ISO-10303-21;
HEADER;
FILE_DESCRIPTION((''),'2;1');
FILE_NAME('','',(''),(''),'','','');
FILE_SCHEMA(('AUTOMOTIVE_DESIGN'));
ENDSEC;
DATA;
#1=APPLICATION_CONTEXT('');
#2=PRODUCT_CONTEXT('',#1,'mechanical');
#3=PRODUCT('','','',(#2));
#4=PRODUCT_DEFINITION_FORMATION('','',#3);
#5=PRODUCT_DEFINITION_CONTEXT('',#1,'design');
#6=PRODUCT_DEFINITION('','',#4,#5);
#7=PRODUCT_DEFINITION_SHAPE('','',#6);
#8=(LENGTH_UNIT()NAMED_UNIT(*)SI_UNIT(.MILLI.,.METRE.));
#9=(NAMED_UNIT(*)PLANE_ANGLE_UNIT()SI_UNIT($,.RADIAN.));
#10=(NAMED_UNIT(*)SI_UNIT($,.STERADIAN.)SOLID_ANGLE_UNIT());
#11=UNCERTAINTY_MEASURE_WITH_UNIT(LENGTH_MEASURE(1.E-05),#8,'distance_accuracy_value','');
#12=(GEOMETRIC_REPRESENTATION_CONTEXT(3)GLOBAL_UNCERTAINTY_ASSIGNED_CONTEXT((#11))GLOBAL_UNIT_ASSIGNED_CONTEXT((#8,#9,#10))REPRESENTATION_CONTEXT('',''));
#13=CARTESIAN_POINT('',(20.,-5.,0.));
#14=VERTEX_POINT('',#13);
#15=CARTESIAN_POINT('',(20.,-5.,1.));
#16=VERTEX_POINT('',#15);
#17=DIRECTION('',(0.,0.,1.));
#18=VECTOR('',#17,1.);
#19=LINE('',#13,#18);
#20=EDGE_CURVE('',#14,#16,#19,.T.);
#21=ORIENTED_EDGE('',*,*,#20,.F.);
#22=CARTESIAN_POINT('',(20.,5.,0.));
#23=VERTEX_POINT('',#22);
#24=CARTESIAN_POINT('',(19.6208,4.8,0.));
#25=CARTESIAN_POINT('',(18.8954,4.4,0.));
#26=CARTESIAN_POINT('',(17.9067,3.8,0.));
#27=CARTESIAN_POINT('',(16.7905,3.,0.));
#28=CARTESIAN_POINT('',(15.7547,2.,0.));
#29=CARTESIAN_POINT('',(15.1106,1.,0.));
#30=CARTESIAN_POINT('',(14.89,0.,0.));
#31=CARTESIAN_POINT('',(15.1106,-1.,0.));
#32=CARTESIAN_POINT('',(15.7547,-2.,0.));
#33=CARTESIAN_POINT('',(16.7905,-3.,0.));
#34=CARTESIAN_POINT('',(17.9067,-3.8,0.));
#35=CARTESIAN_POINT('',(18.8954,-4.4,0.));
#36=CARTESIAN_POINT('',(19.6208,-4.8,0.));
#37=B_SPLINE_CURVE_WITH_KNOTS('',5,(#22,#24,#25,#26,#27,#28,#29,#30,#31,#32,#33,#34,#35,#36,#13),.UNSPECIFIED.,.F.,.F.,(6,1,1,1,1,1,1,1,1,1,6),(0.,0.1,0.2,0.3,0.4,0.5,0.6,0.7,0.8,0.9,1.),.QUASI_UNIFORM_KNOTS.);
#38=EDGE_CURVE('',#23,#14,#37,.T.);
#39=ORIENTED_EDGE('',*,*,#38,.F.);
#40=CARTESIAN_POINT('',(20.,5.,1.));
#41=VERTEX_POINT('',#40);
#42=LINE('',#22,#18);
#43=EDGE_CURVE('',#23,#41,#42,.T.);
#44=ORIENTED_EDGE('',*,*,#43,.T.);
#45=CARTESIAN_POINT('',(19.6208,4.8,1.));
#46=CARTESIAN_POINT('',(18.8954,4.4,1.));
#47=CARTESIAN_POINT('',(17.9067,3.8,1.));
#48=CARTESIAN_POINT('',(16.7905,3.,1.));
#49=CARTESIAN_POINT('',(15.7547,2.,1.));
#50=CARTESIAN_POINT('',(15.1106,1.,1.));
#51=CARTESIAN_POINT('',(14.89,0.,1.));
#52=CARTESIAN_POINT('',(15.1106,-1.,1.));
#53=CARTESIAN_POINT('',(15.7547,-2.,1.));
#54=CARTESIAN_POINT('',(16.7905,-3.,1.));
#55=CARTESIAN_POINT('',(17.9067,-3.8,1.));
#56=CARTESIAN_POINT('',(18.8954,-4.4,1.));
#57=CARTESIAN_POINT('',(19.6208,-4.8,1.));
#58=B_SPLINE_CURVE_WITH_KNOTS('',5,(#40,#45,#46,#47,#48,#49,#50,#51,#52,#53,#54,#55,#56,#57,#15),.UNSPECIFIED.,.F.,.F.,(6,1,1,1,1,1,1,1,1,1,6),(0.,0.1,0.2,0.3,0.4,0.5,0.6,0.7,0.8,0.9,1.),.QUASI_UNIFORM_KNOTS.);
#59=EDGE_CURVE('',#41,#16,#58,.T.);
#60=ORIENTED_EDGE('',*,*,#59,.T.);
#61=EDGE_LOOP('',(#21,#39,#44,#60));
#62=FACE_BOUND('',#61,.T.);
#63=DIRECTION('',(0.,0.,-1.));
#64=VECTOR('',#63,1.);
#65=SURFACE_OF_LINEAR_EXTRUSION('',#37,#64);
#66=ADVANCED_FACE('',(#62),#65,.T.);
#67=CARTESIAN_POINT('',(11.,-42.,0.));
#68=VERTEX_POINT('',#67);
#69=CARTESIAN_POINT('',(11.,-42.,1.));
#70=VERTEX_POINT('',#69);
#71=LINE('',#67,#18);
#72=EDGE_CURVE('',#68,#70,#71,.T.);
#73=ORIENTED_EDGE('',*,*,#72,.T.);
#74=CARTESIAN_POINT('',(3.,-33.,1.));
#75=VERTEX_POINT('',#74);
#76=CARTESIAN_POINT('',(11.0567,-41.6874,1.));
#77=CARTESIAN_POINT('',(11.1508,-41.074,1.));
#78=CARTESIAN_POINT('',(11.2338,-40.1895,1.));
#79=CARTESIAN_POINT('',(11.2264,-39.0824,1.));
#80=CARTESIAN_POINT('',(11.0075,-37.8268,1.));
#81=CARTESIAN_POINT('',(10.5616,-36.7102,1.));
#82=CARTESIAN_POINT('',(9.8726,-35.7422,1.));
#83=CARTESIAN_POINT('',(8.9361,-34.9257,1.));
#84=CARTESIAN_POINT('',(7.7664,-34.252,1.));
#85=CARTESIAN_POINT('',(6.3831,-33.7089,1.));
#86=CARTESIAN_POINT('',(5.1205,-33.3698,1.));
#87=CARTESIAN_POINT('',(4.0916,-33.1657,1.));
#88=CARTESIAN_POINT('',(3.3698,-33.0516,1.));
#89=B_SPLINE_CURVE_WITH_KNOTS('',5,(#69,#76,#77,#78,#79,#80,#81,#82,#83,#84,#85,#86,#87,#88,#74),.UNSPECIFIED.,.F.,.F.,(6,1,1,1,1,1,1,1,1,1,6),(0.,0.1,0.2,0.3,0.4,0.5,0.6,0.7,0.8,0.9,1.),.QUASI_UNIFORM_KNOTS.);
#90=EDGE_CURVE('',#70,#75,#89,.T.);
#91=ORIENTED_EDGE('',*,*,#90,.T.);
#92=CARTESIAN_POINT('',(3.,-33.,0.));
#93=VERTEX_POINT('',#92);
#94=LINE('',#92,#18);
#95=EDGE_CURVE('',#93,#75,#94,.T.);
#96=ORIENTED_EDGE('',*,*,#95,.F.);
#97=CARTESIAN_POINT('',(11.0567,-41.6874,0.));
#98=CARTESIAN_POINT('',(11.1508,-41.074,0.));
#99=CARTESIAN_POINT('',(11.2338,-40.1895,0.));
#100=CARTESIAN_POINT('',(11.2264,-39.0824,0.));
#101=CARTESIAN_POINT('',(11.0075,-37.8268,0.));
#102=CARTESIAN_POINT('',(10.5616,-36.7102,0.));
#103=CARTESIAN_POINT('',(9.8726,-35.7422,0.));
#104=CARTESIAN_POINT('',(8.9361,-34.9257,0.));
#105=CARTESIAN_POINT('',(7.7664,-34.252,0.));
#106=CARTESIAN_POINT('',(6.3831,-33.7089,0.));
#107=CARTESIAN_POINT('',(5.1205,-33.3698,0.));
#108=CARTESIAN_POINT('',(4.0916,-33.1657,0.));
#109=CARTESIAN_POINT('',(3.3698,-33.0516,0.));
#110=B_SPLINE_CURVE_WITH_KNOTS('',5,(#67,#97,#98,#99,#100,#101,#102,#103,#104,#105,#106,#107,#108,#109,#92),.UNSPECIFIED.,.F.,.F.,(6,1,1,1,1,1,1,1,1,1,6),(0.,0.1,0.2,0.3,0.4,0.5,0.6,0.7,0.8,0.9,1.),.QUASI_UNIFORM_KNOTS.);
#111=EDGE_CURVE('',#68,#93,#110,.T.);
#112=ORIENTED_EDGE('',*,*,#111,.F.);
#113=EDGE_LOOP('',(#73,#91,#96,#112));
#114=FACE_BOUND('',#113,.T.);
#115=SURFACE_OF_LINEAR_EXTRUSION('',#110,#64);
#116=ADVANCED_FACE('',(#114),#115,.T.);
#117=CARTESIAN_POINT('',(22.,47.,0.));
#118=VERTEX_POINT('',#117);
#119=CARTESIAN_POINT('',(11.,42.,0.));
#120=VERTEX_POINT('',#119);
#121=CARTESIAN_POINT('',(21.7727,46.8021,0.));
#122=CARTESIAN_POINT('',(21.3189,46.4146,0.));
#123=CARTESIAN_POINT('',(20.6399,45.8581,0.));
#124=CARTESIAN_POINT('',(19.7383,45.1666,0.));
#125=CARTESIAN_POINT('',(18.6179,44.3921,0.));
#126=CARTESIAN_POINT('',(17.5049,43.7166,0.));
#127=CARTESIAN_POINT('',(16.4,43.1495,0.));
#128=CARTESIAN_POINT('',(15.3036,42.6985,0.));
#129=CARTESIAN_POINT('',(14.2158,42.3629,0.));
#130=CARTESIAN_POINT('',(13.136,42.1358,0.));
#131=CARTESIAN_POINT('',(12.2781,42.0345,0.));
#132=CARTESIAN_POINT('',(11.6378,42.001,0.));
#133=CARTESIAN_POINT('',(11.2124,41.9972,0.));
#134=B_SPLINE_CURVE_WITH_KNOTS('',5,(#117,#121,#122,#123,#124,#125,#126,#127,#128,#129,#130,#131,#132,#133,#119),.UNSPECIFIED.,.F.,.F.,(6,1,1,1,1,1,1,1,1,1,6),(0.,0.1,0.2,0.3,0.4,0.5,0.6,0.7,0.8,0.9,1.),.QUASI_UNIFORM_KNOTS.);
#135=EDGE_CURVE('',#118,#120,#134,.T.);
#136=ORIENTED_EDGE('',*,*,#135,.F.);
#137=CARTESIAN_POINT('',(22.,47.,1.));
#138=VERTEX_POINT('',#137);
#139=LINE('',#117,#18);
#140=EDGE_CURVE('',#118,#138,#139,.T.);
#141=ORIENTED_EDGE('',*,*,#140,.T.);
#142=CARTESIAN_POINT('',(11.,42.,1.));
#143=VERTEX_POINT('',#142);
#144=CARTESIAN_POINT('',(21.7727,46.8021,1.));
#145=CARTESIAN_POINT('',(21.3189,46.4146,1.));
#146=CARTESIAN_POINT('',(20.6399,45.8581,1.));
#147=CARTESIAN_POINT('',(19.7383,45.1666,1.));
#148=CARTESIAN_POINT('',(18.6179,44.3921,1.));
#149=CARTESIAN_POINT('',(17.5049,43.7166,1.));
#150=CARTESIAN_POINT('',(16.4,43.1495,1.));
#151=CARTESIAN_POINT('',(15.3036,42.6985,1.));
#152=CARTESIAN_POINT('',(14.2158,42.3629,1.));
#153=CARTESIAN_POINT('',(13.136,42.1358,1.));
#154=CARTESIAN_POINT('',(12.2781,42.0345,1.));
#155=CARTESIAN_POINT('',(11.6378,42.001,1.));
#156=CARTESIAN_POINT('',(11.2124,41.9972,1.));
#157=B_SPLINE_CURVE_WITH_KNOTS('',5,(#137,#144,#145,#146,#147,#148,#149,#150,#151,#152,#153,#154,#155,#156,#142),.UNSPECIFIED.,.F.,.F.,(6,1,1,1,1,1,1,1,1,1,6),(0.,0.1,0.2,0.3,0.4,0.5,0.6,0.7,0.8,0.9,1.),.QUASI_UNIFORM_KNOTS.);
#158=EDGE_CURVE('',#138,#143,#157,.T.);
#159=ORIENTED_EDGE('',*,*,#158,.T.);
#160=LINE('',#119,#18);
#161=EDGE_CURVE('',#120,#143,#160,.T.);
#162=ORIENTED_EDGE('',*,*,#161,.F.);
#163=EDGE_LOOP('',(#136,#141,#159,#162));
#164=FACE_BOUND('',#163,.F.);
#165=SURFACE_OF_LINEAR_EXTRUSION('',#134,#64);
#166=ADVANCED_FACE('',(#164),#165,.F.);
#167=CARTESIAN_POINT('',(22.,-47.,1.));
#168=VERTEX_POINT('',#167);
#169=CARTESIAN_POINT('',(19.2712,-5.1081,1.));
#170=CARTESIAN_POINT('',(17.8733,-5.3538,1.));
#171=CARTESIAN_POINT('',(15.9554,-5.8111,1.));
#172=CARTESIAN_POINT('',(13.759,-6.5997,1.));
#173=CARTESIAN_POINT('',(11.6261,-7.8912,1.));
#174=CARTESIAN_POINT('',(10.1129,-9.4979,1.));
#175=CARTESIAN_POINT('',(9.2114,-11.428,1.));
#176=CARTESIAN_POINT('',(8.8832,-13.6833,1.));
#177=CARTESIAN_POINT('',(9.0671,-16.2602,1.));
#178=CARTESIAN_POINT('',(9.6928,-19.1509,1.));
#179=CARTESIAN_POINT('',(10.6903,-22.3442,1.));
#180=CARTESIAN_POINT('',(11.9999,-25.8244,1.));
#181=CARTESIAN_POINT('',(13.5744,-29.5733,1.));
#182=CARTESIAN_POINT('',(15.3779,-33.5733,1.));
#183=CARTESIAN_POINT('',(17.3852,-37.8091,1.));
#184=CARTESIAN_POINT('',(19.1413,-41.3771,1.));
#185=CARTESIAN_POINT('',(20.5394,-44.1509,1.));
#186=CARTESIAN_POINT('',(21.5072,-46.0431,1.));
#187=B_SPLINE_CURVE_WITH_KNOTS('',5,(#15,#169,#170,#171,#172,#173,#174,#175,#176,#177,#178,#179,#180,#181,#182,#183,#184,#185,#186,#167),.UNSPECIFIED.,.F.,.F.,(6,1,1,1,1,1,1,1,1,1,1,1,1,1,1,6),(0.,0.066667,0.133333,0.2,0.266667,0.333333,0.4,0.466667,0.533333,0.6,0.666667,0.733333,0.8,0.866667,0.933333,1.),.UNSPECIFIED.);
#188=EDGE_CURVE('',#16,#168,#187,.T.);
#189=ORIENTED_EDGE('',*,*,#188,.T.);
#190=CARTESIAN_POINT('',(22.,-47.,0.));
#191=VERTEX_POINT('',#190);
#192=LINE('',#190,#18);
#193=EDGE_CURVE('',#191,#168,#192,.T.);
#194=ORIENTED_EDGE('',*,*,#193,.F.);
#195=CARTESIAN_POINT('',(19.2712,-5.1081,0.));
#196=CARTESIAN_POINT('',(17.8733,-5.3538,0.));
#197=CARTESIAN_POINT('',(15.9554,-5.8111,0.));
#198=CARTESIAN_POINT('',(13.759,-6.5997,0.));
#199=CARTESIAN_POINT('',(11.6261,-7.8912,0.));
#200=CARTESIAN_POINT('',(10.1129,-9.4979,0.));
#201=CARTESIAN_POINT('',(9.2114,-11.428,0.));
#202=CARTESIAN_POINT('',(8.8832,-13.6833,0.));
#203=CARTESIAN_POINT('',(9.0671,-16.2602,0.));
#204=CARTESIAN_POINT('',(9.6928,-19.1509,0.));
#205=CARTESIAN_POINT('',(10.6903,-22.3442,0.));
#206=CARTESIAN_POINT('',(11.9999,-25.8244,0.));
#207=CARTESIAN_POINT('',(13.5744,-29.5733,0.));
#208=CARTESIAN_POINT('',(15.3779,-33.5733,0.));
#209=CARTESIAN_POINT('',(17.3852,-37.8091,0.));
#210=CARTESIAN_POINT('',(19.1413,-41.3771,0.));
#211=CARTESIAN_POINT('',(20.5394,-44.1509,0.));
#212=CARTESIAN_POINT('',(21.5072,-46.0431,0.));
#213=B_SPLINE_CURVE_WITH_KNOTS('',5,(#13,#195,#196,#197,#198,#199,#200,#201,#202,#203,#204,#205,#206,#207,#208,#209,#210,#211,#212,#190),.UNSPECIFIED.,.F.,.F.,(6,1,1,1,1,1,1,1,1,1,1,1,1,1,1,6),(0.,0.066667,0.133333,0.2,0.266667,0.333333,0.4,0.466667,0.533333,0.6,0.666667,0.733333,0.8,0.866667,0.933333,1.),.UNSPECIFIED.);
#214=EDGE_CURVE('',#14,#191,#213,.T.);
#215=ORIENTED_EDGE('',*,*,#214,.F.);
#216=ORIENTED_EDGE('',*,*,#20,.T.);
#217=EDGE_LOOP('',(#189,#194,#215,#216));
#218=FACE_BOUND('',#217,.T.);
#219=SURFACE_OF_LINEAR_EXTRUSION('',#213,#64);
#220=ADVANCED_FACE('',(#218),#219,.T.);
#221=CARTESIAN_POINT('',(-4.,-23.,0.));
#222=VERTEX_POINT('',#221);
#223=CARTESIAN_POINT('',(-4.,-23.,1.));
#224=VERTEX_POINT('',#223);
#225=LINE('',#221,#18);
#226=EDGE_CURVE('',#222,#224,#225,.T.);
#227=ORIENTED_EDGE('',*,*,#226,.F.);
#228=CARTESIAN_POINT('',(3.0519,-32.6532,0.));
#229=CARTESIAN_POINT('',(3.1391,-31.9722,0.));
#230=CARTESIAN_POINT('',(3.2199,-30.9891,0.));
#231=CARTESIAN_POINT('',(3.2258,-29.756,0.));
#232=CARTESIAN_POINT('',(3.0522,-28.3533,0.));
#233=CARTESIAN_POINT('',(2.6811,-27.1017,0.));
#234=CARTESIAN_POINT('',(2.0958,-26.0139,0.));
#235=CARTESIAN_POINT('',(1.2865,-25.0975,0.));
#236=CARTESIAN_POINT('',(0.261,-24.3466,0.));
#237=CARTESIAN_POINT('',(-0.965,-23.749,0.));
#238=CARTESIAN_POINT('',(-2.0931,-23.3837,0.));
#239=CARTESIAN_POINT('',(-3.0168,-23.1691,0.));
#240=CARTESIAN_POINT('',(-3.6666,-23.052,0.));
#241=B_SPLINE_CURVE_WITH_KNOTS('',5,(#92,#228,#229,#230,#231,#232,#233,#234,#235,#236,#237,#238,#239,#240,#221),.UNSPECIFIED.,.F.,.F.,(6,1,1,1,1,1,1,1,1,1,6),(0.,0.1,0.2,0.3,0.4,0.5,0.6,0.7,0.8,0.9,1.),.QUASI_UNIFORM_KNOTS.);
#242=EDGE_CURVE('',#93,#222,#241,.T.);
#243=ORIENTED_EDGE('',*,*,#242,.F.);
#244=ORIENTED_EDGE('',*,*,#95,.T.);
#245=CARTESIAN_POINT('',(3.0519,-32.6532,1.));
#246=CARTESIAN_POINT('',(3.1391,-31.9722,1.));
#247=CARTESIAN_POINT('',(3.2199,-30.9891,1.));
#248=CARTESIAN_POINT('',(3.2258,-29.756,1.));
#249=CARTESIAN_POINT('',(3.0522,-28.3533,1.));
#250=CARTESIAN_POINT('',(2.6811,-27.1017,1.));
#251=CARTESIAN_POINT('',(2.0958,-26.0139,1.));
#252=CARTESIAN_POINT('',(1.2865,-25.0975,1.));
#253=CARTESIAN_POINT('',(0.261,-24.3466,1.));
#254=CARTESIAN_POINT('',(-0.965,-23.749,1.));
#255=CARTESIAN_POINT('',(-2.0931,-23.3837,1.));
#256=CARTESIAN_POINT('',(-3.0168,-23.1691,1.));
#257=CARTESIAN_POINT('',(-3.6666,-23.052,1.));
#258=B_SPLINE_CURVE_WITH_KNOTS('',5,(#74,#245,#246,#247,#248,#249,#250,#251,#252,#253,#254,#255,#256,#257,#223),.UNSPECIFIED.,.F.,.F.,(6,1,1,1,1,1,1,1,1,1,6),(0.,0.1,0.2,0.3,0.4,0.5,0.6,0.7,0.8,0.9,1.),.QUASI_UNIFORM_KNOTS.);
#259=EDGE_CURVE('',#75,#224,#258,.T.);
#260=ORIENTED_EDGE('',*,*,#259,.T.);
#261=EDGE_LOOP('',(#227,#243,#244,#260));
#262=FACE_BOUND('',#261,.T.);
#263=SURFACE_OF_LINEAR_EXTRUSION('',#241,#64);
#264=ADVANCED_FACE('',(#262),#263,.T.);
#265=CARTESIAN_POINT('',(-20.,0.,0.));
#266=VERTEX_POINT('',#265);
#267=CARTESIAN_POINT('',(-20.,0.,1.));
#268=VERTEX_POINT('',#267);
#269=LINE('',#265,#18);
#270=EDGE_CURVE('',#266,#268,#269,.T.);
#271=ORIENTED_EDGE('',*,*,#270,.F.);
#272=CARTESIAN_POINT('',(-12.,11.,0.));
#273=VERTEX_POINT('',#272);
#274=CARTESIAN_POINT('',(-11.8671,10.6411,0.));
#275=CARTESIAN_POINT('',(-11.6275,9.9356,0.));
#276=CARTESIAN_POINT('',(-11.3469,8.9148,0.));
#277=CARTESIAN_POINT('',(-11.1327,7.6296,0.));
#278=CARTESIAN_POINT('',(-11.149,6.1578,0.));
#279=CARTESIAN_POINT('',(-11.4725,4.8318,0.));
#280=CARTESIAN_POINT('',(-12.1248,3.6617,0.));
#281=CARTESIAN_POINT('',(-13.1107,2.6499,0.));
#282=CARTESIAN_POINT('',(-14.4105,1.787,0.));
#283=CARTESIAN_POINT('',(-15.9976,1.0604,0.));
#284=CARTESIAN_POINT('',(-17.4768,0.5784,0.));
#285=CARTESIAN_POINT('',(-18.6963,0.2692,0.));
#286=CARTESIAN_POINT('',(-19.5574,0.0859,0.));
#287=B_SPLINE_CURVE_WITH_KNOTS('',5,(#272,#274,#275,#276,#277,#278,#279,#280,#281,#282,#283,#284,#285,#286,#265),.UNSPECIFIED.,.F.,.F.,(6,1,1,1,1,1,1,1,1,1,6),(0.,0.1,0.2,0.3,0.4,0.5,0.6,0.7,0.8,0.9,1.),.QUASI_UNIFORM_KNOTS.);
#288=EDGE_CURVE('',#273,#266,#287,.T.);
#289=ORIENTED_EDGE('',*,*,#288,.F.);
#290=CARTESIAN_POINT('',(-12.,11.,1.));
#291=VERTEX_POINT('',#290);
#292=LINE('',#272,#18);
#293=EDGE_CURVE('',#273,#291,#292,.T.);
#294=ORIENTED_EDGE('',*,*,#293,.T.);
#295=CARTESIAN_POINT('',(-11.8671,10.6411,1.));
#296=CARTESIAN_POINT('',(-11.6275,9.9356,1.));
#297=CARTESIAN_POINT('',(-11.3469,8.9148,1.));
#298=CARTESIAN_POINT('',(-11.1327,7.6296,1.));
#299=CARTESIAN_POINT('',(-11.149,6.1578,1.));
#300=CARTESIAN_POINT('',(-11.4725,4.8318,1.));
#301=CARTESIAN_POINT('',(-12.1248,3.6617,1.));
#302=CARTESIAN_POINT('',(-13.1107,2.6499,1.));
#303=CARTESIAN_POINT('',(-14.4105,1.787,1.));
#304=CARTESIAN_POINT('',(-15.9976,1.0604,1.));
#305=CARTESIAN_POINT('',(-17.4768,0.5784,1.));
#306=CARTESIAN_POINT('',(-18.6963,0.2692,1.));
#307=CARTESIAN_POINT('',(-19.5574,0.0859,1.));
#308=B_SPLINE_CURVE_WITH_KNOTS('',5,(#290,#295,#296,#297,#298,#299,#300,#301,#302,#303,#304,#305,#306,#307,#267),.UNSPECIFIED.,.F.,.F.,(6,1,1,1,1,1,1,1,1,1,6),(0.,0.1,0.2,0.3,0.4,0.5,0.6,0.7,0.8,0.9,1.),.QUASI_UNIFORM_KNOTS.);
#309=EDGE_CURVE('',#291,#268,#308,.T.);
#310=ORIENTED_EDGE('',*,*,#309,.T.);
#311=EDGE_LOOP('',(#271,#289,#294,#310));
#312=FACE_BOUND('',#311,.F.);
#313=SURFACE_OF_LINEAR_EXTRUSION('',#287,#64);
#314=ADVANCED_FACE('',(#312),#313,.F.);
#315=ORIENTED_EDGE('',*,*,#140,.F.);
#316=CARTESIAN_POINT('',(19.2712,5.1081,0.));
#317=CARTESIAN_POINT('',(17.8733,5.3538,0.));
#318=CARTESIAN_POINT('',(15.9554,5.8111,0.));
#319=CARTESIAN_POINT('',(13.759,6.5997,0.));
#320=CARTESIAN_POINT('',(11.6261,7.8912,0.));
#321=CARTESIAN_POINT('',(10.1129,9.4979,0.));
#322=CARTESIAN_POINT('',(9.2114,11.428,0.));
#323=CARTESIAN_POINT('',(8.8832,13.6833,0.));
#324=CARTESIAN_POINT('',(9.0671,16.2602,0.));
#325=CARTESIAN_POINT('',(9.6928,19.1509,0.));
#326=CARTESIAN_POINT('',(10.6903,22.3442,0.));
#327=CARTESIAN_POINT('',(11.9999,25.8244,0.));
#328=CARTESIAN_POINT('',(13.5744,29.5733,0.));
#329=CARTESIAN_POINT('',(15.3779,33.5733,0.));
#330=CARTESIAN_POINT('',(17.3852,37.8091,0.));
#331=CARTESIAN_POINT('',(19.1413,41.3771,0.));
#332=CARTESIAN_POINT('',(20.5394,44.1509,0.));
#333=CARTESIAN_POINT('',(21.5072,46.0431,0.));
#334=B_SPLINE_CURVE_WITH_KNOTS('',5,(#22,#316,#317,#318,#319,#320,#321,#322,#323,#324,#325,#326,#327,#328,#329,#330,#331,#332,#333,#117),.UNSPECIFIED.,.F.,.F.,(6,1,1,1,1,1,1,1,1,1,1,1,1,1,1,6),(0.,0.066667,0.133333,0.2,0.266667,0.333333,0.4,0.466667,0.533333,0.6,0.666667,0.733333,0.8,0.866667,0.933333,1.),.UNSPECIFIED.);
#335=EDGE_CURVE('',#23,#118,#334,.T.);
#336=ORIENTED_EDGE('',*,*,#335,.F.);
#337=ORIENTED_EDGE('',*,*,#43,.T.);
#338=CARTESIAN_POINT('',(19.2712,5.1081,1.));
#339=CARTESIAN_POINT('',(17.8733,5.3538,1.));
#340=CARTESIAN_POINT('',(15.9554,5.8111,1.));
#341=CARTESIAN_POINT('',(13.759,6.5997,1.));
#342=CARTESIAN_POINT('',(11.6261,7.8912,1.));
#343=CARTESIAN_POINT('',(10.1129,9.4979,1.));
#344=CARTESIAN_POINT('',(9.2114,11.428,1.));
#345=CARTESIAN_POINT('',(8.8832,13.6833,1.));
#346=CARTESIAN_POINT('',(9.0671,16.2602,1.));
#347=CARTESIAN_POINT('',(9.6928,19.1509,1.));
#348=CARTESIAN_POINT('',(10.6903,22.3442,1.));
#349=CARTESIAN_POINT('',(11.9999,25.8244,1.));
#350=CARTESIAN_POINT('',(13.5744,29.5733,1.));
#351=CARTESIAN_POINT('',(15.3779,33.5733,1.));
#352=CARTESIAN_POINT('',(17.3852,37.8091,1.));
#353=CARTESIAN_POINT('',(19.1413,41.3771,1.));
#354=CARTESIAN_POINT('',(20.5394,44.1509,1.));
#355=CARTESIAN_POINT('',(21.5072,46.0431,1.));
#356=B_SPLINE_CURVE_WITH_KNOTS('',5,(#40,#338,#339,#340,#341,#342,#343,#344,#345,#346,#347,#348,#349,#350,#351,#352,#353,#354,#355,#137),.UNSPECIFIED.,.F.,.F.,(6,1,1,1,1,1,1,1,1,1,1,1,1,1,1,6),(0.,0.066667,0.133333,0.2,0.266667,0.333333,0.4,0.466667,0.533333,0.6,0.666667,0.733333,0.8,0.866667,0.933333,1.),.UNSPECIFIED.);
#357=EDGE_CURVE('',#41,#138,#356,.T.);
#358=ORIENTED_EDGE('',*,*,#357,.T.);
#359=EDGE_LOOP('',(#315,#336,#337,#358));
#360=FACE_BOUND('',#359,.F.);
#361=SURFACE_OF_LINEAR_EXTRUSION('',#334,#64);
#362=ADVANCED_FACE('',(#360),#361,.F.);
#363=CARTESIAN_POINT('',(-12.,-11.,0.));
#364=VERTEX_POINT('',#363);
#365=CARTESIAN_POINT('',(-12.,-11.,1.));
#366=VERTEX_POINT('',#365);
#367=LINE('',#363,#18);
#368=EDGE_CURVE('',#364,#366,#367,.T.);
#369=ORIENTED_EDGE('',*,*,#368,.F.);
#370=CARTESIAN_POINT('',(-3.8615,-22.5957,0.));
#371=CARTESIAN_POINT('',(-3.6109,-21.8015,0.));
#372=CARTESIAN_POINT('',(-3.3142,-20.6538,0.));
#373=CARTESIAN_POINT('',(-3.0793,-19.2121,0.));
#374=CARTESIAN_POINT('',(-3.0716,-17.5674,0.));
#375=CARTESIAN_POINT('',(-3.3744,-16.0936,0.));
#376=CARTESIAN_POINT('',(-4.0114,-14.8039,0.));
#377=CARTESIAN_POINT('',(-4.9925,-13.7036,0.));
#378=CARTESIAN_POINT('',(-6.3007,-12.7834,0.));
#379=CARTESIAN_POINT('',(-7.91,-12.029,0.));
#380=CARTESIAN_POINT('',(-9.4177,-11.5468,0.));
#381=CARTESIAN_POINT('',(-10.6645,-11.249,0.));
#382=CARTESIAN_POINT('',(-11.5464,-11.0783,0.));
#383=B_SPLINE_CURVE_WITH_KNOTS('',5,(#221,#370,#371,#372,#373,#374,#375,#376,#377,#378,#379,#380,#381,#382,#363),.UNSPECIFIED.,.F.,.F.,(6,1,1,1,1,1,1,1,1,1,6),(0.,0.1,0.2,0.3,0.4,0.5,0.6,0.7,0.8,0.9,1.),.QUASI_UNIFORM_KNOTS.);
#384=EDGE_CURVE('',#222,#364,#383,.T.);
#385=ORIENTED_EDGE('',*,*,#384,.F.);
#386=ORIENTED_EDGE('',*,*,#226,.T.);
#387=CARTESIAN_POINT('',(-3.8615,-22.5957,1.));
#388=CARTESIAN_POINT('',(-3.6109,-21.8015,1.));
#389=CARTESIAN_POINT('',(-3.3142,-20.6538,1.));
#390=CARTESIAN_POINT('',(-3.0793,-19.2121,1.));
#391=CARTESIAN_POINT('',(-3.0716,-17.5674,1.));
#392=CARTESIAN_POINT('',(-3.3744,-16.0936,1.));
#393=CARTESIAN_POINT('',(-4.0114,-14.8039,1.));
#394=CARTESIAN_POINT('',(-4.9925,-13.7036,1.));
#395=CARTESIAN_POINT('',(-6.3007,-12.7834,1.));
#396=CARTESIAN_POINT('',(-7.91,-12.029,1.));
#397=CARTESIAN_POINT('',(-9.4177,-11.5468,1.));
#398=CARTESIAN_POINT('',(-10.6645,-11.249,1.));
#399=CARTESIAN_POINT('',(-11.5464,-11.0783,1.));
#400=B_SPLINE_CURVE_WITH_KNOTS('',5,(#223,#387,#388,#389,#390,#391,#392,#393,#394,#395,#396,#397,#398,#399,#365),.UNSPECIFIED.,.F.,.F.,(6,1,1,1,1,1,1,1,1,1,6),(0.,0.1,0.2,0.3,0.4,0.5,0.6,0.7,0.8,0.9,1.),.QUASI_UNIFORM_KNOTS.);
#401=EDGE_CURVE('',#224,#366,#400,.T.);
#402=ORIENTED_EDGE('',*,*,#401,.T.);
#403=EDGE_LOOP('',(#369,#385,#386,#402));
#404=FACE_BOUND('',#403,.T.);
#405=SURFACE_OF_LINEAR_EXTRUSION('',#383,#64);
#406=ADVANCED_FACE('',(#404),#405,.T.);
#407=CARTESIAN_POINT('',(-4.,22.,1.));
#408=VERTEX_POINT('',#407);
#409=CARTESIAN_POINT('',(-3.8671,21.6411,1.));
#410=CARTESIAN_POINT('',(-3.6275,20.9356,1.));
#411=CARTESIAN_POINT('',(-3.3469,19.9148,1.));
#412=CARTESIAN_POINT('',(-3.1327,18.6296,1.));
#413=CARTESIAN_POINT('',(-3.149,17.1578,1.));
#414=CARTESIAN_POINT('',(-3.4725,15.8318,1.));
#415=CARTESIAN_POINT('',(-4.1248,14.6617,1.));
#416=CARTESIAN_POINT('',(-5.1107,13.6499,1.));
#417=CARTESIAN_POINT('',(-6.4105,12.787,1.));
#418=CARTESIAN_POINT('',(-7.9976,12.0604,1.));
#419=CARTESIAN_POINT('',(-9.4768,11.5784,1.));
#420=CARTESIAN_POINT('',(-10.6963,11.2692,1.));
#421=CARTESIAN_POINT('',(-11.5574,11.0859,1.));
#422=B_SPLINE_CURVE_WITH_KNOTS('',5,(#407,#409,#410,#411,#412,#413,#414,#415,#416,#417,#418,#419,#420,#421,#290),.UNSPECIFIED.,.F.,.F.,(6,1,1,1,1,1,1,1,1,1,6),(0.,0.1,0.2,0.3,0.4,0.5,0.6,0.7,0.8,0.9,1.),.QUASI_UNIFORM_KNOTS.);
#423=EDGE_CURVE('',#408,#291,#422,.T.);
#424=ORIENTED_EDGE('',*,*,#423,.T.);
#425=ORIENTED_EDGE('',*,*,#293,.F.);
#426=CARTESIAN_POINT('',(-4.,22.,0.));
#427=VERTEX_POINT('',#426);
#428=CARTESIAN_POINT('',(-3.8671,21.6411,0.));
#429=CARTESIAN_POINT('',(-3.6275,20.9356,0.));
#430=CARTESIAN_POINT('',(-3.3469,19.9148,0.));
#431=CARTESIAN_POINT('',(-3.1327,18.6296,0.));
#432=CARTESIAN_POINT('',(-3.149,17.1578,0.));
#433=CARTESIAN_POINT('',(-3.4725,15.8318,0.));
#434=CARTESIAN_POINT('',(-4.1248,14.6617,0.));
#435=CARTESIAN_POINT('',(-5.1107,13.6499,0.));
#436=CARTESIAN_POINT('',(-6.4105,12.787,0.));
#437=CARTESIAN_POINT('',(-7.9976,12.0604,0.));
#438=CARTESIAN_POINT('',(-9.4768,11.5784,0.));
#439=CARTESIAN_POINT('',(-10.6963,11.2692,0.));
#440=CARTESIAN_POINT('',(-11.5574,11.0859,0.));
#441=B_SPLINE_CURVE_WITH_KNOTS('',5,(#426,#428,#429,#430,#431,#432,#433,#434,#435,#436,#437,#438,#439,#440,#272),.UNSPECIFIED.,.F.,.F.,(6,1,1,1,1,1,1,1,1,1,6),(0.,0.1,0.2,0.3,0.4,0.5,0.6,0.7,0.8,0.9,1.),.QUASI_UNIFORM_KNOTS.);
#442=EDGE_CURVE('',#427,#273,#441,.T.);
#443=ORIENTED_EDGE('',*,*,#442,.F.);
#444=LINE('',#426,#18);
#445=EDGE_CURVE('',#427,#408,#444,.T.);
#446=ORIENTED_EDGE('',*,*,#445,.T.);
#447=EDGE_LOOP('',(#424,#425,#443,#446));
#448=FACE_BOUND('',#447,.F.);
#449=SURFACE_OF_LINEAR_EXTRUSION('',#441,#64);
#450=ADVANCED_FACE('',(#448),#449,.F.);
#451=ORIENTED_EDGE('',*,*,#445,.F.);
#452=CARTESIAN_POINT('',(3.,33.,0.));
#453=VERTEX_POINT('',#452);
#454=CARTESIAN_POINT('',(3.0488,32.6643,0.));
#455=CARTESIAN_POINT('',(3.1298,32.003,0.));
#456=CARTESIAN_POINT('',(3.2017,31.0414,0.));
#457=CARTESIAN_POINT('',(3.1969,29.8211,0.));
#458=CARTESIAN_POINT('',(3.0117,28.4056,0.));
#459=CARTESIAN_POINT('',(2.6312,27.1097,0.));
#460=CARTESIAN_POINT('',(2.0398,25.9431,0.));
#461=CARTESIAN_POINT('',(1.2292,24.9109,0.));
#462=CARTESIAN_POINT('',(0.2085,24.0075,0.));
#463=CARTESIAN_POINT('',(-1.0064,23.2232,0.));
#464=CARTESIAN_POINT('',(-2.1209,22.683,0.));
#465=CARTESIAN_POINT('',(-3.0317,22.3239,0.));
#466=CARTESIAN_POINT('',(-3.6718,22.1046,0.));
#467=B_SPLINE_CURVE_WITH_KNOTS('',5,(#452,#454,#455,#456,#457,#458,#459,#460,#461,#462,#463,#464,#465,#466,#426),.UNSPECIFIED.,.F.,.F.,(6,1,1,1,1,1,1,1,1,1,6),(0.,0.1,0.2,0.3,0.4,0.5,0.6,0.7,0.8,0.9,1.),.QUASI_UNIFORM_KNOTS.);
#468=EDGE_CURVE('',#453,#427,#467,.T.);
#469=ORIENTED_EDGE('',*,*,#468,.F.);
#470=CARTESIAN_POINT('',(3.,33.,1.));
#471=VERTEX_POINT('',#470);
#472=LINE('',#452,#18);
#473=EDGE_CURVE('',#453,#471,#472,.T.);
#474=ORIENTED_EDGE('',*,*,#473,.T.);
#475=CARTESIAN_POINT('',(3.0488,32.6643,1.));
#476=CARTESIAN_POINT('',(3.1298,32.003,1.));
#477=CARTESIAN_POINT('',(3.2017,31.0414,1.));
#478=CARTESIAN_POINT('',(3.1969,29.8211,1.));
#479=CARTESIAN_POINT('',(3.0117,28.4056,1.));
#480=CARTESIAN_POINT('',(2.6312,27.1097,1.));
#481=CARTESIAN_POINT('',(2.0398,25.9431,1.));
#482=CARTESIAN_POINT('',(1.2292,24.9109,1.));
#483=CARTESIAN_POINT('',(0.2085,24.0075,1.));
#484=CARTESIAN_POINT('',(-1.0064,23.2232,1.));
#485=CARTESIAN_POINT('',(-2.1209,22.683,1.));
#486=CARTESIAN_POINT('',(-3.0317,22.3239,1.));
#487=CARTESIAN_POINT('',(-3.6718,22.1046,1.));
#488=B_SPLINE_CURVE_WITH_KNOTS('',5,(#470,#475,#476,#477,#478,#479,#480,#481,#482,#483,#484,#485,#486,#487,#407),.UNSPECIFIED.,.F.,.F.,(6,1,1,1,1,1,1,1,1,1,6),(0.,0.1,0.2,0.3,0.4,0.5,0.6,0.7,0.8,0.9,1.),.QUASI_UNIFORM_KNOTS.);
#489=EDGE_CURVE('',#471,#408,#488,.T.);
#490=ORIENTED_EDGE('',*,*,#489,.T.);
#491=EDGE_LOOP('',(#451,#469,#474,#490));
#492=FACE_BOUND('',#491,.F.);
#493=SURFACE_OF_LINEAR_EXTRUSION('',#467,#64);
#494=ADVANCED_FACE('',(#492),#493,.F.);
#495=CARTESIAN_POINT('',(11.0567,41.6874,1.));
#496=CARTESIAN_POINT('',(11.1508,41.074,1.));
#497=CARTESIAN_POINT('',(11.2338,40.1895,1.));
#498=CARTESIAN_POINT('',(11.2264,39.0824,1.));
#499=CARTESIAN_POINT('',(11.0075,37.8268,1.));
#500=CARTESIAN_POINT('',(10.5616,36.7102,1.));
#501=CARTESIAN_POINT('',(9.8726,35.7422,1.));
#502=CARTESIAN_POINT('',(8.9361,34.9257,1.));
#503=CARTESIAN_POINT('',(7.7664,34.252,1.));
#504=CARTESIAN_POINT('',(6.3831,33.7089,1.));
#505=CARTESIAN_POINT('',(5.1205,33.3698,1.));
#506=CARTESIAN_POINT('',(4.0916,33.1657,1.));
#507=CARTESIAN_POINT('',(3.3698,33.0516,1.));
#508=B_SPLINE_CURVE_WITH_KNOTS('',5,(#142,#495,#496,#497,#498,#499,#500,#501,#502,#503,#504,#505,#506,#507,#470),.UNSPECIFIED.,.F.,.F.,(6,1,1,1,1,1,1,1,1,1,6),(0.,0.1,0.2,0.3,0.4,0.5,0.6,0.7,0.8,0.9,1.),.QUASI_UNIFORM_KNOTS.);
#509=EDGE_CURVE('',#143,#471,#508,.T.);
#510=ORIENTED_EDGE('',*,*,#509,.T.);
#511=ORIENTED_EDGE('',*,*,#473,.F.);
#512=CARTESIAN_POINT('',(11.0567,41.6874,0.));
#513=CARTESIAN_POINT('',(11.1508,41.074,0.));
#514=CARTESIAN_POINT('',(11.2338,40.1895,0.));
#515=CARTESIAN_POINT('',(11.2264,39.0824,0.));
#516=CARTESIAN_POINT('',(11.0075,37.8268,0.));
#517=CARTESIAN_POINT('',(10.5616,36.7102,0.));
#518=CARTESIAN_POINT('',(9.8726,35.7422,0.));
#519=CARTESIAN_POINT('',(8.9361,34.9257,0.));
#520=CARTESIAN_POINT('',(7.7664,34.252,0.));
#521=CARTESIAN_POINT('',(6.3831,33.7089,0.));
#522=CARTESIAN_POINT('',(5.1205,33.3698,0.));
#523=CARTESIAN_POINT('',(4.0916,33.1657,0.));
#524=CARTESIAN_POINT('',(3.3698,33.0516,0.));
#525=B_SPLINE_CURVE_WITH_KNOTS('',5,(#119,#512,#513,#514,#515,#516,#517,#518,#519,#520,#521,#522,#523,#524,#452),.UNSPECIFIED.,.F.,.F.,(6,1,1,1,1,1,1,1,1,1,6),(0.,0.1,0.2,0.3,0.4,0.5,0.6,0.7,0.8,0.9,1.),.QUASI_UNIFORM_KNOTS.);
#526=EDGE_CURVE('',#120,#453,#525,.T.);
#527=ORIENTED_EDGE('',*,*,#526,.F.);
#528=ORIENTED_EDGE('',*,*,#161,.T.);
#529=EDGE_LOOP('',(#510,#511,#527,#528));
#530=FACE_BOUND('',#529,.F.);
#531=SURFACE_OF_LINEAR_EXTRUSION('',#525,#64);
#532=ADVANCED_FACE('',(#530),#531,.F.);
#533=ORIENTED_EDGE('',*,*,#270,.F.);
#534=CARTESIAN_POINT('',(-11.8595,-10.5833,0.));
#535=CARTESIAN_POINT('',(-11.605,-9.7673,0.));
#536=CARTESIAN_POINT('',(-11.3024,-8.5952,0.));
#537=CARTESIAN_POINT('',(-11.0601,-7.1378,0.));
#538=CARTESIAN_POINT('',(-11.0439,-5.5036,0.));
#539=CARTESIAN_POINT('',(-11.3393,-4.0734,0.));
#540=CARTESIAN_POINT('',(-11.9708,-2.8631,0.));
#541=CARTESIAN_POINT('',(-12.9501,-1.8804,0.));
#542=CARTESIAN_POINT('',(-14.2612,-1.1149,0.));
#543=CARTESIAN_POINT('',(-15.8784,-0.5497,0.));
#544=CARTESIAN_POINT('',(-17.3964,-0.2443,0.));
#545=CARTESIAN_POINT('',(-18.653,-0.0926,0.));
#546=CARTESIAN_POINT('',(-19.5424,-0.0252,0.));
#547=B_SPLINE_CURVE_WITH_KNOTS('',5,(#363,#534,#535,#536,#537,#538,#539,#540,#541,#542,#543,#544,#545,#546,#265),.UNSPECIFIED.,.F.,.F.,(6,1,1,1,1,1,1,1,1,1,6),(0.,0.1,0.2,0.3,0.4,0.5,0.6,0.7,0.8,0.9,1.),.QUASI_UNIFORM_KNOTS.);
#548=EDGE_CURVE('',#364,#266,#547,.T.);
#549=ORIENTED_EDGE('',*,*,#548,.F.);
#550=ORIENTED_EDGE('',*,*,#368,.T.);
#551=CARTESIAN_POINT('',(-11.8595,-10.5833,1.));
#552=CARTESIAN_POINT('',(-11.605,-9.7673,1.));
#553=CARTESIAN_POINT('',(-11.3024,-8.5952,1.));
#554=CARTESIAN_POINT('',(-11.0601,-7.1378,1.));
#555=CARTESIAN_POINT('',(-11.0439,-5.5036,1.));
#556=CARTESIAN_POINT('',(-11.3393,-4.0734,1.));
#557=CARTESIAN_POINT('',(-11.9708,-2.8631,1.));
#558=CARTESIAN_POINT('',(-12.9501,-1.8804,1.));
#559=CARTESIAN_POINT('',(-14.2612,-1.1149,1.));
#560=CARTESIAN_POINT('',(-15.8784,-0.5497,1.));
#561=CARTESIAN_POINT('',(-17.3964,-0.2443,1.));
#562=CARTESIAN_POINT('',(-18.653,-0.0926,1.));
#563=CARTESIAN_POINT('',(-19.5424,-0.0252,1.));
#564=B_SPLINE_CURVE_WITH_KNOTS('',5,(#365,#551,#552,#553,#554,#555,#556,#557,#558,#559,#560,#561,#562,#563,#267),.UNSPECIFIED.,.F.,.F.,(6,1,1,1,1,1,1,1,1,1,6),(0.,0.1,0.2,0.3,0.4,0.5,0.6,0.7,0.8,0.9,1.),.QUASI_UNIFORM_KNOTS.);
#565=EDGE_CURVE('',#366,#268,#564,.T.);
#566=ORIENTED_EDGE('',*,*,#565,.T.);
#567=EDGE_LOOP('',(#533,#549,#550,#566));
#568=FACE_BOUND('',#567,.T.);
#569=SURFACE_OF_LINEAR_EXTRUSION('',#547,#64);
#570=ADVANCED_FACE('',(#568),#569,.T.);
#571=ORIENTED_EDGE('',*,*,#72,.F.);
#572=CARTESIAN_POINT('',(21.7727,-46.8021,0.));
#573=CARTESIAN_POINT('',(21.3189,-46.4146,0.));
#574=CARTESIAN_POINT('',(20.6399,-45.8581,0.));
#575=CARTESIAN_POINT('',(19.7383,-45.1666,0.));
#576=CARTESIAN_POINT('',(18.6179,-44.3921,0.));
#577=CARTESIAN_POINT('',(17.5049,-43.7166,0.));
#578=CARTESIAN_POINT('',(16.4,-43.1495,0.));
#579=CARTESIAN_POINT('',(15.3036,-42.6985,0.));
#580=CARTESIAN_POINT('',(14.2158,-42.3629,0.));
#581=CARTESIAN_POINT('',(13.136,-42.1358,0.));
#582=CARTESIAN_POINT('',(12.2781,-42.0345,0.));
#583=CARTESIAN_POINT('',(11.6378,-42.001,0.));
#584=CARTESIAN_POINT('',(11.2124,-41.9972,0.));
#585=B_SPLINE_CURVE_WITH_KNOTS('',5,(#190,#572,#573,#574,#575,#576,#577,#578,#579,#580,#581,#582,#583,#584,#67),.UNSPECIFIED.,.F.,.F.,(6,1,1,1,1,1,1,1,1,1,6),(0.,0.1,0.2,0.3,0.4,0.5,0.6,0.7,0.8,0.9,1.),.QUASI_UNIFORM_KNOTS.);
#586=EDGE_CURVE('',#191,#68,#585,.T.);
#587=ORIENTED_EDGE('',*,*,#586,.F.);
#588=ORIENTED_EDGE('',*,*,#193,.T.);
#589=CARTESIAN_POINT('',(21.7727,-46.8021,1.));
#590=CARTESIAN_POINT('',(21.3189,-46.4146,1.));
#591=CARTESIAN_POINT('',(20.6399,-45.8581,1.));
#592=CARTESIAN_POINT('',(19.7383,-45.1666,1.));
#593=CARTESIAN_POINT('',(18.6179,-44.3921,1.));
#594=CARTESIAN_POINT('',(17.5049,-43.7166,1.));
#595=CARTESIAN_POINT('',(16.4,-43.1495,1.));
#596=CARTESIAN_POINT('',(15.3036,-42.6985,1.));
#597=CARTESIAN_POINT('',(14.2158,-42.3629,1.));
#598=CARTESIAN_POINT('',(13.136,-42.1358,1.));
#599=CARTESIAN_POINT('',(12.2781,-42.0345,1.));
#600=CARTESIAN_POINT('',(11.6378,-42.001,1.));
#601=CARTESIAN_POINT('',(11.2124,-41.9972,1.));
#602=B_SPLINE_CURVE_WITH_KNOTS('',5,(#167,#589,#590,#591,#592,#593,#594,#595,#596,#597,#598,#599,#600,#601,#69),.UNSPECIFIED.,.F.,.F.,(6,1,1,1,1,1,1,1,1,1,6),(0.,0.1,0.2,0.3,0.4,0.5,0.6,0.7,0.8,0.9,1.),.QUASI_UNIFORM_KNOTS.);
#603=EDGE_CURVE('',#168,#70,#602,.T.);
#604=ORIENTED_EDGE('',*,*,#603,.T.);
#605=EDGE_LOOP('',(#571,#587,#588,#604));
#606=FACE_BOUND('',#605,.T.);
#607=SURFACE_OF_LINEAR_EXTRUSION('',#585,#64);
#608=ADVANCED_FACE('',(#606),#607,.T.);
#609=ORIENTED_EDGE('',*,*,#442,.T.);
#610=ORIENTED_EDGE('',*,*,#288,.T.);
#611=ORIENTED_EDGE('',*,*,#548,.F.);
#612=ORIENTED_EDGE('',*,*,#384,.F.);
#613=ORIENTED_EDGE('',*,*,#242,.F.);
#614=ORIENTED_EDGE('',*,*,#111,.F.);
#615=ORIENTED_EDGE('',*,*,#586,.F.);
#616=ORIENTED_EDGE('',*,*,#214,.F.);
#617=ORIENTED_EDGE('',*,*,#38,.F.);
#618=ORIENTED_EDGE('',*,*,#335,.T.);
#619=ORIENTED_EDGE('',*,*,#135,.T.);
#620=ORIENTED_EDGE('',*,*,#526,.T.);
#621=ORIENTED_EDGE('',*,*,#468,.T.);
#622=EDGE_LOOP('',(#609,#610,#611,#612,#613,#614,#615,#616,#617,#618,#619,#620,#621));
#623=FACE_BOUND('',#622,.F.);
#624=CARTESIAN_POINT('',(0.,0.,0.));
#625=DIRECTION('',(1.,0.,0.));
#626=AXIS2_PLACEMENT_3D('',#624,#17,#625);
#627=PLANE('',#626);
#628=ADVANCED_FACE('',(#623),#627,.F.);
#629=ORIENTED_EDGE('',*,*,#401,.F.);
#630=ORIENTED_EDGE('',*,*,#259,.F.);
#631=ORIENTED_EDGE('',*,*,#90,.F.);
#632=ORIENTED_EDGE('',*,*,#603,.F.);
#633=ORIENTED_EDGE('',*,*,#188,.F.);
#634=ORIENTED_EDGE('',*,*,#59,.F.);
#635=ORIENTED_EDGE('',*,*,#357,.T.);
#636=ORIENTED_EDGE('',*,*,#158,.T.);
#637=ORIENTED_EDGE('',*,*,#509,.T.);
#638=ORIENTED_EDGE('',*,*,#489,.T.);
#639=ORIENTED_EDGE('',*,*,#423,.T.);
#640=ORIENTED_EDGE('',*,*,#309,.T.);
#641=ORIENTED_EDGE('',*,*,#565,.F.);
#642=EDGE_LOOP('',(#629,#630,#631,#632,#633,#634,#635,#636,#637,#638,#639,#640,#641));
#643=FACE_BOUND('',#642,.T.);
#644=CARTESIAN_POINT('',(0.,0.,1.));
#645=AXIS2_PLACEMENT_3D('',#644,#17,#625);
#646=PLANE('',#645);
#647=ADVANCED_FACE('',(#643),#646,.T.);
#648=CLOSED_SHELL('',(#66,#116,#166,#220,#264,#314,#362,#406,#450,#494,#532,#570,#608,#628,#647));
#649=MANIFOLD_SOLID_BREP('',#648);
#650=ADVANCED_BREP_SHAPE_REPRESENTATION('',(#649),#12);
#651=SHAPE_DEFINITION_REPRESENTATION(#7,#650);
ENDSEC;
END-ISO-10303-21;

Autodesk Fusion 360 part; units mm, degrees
sketch "Sketch1" plane through (0, 0, 0) normal (0, 0, 1) x (1, 0, 0)
  spline S0 degree 5 poles (20, 5) (19.6208, 4.8) (18.8954, 4.4) (17.9067, 3.8) (16.7905, 3) (15.7547, 2) (15.1106, 1) (14.89, 0) (15.1106, -1) (15.7547, -2) (16.7905, -3) (17.9067, -3.8) (18.8954, -4.4) (19.6208, -4.8) (20, -5) knots 0 0 0 0 0 0 0.1 0.2 0.3 0.4 0.5 0.6 0.7 0.8 0.9 1 1 1 1 1 1
  spline S1 degree 5 poles (20, 5) (19.2712, 5.1081) (17.8733, 5.3538) (15.9554, 5.8111) (13.759, 6.5997) (11.6261, 7.8912) (10.1129, 9.4979) (9.2114, 11.428) (8.8832, 13.6833) (9.0671, 16.2602) (9.6928, 19.1509) (10.6903, 22.3442) (11.9999, 25.8244) (13.5744, 29.5733) (15.3779, 33.5733) (17.3852, 37.8091) (19.1413, 41.3771) (20.5394, 44.1509) (21.5072, 46.0431) (22, 47) knots 0 0 0 0 0 0 0.066667 0.133333 0.2 0.266667 0.333333 0.4 0.466667 0.533333 0.6 0.666667 0.733333 0.8 0.866667 0.933333 1 1 1 1 1 1
  spline S2 degree 5 poles (20, -5) (19.2712, -5.1081) (17.8733, -5.3538) (15.9554, -5.8111) (13.759, -6.5997) (11.6261, -7.8912) (10.1129, -9.4979) (9.2114, -11.428) (8.8832, -13.6833) (9.0671, -16.2602) (9.6928, -19.1509) (10.6903, -22.3442) (11.9999, -25.8244) (13.5744, -29.5733) (15.3779, -33.5733) (17.3852, -37.8091) (19.1413, -41.3771) (20.5394, -44.1509) (21.5072, -46.0431) (22, -47) knots 0 0 0 0 0 0 0.066667 0.133333 0.2 0.266667 0.333333 0.4 0.466667 0.533333 0.6 0.666667 0.733333 0.8 0.866667 0.933333 1 1 1 1 1 1
  spline S3 degree 5 poles (22, 47) (21.7727, 46.8021) (21.3189, 46.4146) (20.6399, 45.8581) (19.7383, 45.1666) (18.6179, 44.3921) (17.5049, 43.7166) (16.4, 43.1495) (15.3036, 42.6985) (14.2158, 42.3629) (13.136, 42.1358) (12.2781, 42.0345) (11.6378, 42.001) (11.2124, 41.9972) (11, 42) knots 0 0 0 0 0 0 0.1 0.2 0.3 0.4 0.5 0.6 0.7 0.8 0.9 1 1 1 1 1 1
  spline S4 degree 5 poles (22, -47) (21.7727, -46.8021) (21.3189, -46.4146) (20.6399, -45.8581) (19.7383, -45.1666) (18.6179, -44.3921) (17.5049, -43.7166) (16.4, -43.1495) (15.3036, -42.6985) (14.2158, -42.3629) (13.136, -42.1358) (12.2781, -42.0345) (11.6378, -42.001) (11.2124, -41.9972) (11, -42) knots 0 0 0 0 0 0 0.1 0.2 0.3 0.4 0.5 0.6 0.7 0.8 0.9 1 1 1 1 1 1
  spline S5 degree 5 poles (11, 42) (11.0567, 41.6874) (11.1508, 41.074) (11.2338, 40.1895) (11.2264, 39.0824) (11.0075, 37.8268) (10.5616, 36.7102) (9.8726, 35.7422) (8.9361, 34.9257) (7.7664, 34.252) (6.3831, 33.7089) (5.1205, 33.3698) (4.0916, 33.1657) (3.3698, 33.0516) (3, 33) knots 0 0 0 0 0 0 0.1 0.2 0.3 0.4 0.5 0.6 0.7 0.8 0.9 1 1 1 1 1 1
  spline S6 degree 5 poles (11, -42) (11.0567, -41.6874) (11.1508, -41.074) (11.2338, -40.1895) (11.2264, -39.0824) (11.0075, -37.8268) (10.5616, -36.7102) (9.8726, -35.7422) (8.9361, -34.9257) (7.7664, -34.252) (6.3831, -33.7089) (5.1205, -33.3698) (4.0916, -33.1657) (3.3698, -33.0516) (3, -33) knots 0 0 0 0 0 0 0.1 0.2 0.3 0.4 0.5 0.6 0.7 0.8 0.9 1 1 1 1 1 1
  spline S7 degree 5 poles (3, 33) (3.0488, 32.6643) (3.1298, 32.003) (3.2017, 31.0414) (3.1969, 29.8211) (3.0117, 28.4056) (2.6312, 27.1097) (2.0398, 25.9431) (1.2292, 24.9109) (0.2085, 24.0075) (-1.0064, 23.2232) (-2.1209, 22.683) (-3.0317, 22.3239) (-3.6718, 22.1046) (-4, 22) knots 0 0 0 0 0 0 0.1 0.2 0.3 0.4 0.5 0.6 0.7 0.8 0.9 1 1 1 1 1 1
  spline S8 degree 5 poles (3, -33) (3.0519, -32.6532) (3.1391, -31.9722) (3.2199, -30.9891) (3.2258, -29.756) (3.0522, -28.3533) (2.6811, -27.1017) (2.0958, -26.0139) (1.2865, -25.0975) (0.261, -24.3466) (-0.965, -23.749) (-2.0931, -23.3837) (-3.0168, -23.1691) (-3.6666, -23.052) (-4, -23) knots 0 0 0 0 0 0 0.1 0.2 0.3 0.4 0.5 0.6 0.7 0.8 0.9 1 1 1 1 1 1
  spline S9 degree 5 poles (-4, 22) (-3.8671, 21.6411) (-3.6275, 20.9356) (-3.3469, 19.9148) (-3.1327, 18.6296) (-3.149, 17.1578) (-3.4725, 15.8318) (-4.1248, 14.6617) (-5.1107, 13.6499) (-6.4105, 12.787) (-7.9976, 12.0604) (-9.4768, 11.5784) (-10.6963, 11.2692) (-11.5574, 11.0859) (-12, 11) knots 0 0 0 0 0 0 0.1 0.2 0.3 0.4 0.5 0.6 0.7 0.8 0.9 1 1 1 1 1 1
  spline S10 degree 5 poles (-4, -23) (-3.8615, -22.5957) (-3.6109, -21.8015) (-3.3142, -20.6538) (-3.0793, -19.2121) (-3.0716, -17.5674) (-3.3744, -16.0936) (-4.0114, -14.8039) (-4.9925, -13.7036) (-6.3007, -12.7834) (-7.91, -12.029) (-9.4177, -11.5468) (-10.6645, -11.249) (-11.5464, -11.0783) (-12, -11) knots 0 0 0 0 0 0 0.1 0.2 0.3 0.4 0.5 0.6 0.7 0.8 0.9 1 1 1 1 1 1
  spline S11 degree 5 poles (-12, 11) (-11.8671, 10.6411) (-11.6275, 9.9356) (-11.3469, 8.9148) (-11.1327, 7.6296) (-11.149, 6.1578) (-11.4725, 4.8318) (-12.1248, 3.6617) (-13.1107, 2.6499) (-14.4105, 1.787) (-15.9976, 1.0604) (-17.4768, 0.5784) (-18.6963, 0.2692) (-19.5574, 0.0859) (-20, 0) knots 0 0 0 0 0 0 0.1 0.2 0.3 0.4 0.5 0.6 0.7 0.8 0.9 1 1 1 1 1 1
  spline S12 degree 5 poles (-12, -11) (-11.8595, -10.5833) (-11.605, -9.7673) (-11.3024, -8.5952) (-11.0601, -7.1378) (-11.0439, -5.5036) (-11.3393, -4.0734) (-11.9708, -2.8631) (-12.9501, -1.8804) (-14.2612, -1.1149) (-15.8784, -0.5497) (-17.3964, -0.2443) (-18.653, -0.0926) (-19.5424, -0.0252) (-20, 0) knots 0 0 0 0 0 0 0.1 0.2 0.3 0.4 0.5 0.6 0.7 0.8 0.9 1 1 1 1 1 1
  point P0 (15, 0)
  point P1 (10, 10)
  point P2 (10, 20)
  point P3 (10, -10)
  point P4 (10, -20)
  point P5 (16, 43)
  point P6 (16, -43)
  point P7 (10, 36)
  point P8 (10, -36)
  point P9 (2, 26)
  point P10 (2, -26)
  point P11 (-4, 15)
  point P12 (-4, -15)
  point P13 (-12, 4)
  point P14 (-12, -3)
extrude "Extrude1" add sketch "Sketch1" along normal blind 1
